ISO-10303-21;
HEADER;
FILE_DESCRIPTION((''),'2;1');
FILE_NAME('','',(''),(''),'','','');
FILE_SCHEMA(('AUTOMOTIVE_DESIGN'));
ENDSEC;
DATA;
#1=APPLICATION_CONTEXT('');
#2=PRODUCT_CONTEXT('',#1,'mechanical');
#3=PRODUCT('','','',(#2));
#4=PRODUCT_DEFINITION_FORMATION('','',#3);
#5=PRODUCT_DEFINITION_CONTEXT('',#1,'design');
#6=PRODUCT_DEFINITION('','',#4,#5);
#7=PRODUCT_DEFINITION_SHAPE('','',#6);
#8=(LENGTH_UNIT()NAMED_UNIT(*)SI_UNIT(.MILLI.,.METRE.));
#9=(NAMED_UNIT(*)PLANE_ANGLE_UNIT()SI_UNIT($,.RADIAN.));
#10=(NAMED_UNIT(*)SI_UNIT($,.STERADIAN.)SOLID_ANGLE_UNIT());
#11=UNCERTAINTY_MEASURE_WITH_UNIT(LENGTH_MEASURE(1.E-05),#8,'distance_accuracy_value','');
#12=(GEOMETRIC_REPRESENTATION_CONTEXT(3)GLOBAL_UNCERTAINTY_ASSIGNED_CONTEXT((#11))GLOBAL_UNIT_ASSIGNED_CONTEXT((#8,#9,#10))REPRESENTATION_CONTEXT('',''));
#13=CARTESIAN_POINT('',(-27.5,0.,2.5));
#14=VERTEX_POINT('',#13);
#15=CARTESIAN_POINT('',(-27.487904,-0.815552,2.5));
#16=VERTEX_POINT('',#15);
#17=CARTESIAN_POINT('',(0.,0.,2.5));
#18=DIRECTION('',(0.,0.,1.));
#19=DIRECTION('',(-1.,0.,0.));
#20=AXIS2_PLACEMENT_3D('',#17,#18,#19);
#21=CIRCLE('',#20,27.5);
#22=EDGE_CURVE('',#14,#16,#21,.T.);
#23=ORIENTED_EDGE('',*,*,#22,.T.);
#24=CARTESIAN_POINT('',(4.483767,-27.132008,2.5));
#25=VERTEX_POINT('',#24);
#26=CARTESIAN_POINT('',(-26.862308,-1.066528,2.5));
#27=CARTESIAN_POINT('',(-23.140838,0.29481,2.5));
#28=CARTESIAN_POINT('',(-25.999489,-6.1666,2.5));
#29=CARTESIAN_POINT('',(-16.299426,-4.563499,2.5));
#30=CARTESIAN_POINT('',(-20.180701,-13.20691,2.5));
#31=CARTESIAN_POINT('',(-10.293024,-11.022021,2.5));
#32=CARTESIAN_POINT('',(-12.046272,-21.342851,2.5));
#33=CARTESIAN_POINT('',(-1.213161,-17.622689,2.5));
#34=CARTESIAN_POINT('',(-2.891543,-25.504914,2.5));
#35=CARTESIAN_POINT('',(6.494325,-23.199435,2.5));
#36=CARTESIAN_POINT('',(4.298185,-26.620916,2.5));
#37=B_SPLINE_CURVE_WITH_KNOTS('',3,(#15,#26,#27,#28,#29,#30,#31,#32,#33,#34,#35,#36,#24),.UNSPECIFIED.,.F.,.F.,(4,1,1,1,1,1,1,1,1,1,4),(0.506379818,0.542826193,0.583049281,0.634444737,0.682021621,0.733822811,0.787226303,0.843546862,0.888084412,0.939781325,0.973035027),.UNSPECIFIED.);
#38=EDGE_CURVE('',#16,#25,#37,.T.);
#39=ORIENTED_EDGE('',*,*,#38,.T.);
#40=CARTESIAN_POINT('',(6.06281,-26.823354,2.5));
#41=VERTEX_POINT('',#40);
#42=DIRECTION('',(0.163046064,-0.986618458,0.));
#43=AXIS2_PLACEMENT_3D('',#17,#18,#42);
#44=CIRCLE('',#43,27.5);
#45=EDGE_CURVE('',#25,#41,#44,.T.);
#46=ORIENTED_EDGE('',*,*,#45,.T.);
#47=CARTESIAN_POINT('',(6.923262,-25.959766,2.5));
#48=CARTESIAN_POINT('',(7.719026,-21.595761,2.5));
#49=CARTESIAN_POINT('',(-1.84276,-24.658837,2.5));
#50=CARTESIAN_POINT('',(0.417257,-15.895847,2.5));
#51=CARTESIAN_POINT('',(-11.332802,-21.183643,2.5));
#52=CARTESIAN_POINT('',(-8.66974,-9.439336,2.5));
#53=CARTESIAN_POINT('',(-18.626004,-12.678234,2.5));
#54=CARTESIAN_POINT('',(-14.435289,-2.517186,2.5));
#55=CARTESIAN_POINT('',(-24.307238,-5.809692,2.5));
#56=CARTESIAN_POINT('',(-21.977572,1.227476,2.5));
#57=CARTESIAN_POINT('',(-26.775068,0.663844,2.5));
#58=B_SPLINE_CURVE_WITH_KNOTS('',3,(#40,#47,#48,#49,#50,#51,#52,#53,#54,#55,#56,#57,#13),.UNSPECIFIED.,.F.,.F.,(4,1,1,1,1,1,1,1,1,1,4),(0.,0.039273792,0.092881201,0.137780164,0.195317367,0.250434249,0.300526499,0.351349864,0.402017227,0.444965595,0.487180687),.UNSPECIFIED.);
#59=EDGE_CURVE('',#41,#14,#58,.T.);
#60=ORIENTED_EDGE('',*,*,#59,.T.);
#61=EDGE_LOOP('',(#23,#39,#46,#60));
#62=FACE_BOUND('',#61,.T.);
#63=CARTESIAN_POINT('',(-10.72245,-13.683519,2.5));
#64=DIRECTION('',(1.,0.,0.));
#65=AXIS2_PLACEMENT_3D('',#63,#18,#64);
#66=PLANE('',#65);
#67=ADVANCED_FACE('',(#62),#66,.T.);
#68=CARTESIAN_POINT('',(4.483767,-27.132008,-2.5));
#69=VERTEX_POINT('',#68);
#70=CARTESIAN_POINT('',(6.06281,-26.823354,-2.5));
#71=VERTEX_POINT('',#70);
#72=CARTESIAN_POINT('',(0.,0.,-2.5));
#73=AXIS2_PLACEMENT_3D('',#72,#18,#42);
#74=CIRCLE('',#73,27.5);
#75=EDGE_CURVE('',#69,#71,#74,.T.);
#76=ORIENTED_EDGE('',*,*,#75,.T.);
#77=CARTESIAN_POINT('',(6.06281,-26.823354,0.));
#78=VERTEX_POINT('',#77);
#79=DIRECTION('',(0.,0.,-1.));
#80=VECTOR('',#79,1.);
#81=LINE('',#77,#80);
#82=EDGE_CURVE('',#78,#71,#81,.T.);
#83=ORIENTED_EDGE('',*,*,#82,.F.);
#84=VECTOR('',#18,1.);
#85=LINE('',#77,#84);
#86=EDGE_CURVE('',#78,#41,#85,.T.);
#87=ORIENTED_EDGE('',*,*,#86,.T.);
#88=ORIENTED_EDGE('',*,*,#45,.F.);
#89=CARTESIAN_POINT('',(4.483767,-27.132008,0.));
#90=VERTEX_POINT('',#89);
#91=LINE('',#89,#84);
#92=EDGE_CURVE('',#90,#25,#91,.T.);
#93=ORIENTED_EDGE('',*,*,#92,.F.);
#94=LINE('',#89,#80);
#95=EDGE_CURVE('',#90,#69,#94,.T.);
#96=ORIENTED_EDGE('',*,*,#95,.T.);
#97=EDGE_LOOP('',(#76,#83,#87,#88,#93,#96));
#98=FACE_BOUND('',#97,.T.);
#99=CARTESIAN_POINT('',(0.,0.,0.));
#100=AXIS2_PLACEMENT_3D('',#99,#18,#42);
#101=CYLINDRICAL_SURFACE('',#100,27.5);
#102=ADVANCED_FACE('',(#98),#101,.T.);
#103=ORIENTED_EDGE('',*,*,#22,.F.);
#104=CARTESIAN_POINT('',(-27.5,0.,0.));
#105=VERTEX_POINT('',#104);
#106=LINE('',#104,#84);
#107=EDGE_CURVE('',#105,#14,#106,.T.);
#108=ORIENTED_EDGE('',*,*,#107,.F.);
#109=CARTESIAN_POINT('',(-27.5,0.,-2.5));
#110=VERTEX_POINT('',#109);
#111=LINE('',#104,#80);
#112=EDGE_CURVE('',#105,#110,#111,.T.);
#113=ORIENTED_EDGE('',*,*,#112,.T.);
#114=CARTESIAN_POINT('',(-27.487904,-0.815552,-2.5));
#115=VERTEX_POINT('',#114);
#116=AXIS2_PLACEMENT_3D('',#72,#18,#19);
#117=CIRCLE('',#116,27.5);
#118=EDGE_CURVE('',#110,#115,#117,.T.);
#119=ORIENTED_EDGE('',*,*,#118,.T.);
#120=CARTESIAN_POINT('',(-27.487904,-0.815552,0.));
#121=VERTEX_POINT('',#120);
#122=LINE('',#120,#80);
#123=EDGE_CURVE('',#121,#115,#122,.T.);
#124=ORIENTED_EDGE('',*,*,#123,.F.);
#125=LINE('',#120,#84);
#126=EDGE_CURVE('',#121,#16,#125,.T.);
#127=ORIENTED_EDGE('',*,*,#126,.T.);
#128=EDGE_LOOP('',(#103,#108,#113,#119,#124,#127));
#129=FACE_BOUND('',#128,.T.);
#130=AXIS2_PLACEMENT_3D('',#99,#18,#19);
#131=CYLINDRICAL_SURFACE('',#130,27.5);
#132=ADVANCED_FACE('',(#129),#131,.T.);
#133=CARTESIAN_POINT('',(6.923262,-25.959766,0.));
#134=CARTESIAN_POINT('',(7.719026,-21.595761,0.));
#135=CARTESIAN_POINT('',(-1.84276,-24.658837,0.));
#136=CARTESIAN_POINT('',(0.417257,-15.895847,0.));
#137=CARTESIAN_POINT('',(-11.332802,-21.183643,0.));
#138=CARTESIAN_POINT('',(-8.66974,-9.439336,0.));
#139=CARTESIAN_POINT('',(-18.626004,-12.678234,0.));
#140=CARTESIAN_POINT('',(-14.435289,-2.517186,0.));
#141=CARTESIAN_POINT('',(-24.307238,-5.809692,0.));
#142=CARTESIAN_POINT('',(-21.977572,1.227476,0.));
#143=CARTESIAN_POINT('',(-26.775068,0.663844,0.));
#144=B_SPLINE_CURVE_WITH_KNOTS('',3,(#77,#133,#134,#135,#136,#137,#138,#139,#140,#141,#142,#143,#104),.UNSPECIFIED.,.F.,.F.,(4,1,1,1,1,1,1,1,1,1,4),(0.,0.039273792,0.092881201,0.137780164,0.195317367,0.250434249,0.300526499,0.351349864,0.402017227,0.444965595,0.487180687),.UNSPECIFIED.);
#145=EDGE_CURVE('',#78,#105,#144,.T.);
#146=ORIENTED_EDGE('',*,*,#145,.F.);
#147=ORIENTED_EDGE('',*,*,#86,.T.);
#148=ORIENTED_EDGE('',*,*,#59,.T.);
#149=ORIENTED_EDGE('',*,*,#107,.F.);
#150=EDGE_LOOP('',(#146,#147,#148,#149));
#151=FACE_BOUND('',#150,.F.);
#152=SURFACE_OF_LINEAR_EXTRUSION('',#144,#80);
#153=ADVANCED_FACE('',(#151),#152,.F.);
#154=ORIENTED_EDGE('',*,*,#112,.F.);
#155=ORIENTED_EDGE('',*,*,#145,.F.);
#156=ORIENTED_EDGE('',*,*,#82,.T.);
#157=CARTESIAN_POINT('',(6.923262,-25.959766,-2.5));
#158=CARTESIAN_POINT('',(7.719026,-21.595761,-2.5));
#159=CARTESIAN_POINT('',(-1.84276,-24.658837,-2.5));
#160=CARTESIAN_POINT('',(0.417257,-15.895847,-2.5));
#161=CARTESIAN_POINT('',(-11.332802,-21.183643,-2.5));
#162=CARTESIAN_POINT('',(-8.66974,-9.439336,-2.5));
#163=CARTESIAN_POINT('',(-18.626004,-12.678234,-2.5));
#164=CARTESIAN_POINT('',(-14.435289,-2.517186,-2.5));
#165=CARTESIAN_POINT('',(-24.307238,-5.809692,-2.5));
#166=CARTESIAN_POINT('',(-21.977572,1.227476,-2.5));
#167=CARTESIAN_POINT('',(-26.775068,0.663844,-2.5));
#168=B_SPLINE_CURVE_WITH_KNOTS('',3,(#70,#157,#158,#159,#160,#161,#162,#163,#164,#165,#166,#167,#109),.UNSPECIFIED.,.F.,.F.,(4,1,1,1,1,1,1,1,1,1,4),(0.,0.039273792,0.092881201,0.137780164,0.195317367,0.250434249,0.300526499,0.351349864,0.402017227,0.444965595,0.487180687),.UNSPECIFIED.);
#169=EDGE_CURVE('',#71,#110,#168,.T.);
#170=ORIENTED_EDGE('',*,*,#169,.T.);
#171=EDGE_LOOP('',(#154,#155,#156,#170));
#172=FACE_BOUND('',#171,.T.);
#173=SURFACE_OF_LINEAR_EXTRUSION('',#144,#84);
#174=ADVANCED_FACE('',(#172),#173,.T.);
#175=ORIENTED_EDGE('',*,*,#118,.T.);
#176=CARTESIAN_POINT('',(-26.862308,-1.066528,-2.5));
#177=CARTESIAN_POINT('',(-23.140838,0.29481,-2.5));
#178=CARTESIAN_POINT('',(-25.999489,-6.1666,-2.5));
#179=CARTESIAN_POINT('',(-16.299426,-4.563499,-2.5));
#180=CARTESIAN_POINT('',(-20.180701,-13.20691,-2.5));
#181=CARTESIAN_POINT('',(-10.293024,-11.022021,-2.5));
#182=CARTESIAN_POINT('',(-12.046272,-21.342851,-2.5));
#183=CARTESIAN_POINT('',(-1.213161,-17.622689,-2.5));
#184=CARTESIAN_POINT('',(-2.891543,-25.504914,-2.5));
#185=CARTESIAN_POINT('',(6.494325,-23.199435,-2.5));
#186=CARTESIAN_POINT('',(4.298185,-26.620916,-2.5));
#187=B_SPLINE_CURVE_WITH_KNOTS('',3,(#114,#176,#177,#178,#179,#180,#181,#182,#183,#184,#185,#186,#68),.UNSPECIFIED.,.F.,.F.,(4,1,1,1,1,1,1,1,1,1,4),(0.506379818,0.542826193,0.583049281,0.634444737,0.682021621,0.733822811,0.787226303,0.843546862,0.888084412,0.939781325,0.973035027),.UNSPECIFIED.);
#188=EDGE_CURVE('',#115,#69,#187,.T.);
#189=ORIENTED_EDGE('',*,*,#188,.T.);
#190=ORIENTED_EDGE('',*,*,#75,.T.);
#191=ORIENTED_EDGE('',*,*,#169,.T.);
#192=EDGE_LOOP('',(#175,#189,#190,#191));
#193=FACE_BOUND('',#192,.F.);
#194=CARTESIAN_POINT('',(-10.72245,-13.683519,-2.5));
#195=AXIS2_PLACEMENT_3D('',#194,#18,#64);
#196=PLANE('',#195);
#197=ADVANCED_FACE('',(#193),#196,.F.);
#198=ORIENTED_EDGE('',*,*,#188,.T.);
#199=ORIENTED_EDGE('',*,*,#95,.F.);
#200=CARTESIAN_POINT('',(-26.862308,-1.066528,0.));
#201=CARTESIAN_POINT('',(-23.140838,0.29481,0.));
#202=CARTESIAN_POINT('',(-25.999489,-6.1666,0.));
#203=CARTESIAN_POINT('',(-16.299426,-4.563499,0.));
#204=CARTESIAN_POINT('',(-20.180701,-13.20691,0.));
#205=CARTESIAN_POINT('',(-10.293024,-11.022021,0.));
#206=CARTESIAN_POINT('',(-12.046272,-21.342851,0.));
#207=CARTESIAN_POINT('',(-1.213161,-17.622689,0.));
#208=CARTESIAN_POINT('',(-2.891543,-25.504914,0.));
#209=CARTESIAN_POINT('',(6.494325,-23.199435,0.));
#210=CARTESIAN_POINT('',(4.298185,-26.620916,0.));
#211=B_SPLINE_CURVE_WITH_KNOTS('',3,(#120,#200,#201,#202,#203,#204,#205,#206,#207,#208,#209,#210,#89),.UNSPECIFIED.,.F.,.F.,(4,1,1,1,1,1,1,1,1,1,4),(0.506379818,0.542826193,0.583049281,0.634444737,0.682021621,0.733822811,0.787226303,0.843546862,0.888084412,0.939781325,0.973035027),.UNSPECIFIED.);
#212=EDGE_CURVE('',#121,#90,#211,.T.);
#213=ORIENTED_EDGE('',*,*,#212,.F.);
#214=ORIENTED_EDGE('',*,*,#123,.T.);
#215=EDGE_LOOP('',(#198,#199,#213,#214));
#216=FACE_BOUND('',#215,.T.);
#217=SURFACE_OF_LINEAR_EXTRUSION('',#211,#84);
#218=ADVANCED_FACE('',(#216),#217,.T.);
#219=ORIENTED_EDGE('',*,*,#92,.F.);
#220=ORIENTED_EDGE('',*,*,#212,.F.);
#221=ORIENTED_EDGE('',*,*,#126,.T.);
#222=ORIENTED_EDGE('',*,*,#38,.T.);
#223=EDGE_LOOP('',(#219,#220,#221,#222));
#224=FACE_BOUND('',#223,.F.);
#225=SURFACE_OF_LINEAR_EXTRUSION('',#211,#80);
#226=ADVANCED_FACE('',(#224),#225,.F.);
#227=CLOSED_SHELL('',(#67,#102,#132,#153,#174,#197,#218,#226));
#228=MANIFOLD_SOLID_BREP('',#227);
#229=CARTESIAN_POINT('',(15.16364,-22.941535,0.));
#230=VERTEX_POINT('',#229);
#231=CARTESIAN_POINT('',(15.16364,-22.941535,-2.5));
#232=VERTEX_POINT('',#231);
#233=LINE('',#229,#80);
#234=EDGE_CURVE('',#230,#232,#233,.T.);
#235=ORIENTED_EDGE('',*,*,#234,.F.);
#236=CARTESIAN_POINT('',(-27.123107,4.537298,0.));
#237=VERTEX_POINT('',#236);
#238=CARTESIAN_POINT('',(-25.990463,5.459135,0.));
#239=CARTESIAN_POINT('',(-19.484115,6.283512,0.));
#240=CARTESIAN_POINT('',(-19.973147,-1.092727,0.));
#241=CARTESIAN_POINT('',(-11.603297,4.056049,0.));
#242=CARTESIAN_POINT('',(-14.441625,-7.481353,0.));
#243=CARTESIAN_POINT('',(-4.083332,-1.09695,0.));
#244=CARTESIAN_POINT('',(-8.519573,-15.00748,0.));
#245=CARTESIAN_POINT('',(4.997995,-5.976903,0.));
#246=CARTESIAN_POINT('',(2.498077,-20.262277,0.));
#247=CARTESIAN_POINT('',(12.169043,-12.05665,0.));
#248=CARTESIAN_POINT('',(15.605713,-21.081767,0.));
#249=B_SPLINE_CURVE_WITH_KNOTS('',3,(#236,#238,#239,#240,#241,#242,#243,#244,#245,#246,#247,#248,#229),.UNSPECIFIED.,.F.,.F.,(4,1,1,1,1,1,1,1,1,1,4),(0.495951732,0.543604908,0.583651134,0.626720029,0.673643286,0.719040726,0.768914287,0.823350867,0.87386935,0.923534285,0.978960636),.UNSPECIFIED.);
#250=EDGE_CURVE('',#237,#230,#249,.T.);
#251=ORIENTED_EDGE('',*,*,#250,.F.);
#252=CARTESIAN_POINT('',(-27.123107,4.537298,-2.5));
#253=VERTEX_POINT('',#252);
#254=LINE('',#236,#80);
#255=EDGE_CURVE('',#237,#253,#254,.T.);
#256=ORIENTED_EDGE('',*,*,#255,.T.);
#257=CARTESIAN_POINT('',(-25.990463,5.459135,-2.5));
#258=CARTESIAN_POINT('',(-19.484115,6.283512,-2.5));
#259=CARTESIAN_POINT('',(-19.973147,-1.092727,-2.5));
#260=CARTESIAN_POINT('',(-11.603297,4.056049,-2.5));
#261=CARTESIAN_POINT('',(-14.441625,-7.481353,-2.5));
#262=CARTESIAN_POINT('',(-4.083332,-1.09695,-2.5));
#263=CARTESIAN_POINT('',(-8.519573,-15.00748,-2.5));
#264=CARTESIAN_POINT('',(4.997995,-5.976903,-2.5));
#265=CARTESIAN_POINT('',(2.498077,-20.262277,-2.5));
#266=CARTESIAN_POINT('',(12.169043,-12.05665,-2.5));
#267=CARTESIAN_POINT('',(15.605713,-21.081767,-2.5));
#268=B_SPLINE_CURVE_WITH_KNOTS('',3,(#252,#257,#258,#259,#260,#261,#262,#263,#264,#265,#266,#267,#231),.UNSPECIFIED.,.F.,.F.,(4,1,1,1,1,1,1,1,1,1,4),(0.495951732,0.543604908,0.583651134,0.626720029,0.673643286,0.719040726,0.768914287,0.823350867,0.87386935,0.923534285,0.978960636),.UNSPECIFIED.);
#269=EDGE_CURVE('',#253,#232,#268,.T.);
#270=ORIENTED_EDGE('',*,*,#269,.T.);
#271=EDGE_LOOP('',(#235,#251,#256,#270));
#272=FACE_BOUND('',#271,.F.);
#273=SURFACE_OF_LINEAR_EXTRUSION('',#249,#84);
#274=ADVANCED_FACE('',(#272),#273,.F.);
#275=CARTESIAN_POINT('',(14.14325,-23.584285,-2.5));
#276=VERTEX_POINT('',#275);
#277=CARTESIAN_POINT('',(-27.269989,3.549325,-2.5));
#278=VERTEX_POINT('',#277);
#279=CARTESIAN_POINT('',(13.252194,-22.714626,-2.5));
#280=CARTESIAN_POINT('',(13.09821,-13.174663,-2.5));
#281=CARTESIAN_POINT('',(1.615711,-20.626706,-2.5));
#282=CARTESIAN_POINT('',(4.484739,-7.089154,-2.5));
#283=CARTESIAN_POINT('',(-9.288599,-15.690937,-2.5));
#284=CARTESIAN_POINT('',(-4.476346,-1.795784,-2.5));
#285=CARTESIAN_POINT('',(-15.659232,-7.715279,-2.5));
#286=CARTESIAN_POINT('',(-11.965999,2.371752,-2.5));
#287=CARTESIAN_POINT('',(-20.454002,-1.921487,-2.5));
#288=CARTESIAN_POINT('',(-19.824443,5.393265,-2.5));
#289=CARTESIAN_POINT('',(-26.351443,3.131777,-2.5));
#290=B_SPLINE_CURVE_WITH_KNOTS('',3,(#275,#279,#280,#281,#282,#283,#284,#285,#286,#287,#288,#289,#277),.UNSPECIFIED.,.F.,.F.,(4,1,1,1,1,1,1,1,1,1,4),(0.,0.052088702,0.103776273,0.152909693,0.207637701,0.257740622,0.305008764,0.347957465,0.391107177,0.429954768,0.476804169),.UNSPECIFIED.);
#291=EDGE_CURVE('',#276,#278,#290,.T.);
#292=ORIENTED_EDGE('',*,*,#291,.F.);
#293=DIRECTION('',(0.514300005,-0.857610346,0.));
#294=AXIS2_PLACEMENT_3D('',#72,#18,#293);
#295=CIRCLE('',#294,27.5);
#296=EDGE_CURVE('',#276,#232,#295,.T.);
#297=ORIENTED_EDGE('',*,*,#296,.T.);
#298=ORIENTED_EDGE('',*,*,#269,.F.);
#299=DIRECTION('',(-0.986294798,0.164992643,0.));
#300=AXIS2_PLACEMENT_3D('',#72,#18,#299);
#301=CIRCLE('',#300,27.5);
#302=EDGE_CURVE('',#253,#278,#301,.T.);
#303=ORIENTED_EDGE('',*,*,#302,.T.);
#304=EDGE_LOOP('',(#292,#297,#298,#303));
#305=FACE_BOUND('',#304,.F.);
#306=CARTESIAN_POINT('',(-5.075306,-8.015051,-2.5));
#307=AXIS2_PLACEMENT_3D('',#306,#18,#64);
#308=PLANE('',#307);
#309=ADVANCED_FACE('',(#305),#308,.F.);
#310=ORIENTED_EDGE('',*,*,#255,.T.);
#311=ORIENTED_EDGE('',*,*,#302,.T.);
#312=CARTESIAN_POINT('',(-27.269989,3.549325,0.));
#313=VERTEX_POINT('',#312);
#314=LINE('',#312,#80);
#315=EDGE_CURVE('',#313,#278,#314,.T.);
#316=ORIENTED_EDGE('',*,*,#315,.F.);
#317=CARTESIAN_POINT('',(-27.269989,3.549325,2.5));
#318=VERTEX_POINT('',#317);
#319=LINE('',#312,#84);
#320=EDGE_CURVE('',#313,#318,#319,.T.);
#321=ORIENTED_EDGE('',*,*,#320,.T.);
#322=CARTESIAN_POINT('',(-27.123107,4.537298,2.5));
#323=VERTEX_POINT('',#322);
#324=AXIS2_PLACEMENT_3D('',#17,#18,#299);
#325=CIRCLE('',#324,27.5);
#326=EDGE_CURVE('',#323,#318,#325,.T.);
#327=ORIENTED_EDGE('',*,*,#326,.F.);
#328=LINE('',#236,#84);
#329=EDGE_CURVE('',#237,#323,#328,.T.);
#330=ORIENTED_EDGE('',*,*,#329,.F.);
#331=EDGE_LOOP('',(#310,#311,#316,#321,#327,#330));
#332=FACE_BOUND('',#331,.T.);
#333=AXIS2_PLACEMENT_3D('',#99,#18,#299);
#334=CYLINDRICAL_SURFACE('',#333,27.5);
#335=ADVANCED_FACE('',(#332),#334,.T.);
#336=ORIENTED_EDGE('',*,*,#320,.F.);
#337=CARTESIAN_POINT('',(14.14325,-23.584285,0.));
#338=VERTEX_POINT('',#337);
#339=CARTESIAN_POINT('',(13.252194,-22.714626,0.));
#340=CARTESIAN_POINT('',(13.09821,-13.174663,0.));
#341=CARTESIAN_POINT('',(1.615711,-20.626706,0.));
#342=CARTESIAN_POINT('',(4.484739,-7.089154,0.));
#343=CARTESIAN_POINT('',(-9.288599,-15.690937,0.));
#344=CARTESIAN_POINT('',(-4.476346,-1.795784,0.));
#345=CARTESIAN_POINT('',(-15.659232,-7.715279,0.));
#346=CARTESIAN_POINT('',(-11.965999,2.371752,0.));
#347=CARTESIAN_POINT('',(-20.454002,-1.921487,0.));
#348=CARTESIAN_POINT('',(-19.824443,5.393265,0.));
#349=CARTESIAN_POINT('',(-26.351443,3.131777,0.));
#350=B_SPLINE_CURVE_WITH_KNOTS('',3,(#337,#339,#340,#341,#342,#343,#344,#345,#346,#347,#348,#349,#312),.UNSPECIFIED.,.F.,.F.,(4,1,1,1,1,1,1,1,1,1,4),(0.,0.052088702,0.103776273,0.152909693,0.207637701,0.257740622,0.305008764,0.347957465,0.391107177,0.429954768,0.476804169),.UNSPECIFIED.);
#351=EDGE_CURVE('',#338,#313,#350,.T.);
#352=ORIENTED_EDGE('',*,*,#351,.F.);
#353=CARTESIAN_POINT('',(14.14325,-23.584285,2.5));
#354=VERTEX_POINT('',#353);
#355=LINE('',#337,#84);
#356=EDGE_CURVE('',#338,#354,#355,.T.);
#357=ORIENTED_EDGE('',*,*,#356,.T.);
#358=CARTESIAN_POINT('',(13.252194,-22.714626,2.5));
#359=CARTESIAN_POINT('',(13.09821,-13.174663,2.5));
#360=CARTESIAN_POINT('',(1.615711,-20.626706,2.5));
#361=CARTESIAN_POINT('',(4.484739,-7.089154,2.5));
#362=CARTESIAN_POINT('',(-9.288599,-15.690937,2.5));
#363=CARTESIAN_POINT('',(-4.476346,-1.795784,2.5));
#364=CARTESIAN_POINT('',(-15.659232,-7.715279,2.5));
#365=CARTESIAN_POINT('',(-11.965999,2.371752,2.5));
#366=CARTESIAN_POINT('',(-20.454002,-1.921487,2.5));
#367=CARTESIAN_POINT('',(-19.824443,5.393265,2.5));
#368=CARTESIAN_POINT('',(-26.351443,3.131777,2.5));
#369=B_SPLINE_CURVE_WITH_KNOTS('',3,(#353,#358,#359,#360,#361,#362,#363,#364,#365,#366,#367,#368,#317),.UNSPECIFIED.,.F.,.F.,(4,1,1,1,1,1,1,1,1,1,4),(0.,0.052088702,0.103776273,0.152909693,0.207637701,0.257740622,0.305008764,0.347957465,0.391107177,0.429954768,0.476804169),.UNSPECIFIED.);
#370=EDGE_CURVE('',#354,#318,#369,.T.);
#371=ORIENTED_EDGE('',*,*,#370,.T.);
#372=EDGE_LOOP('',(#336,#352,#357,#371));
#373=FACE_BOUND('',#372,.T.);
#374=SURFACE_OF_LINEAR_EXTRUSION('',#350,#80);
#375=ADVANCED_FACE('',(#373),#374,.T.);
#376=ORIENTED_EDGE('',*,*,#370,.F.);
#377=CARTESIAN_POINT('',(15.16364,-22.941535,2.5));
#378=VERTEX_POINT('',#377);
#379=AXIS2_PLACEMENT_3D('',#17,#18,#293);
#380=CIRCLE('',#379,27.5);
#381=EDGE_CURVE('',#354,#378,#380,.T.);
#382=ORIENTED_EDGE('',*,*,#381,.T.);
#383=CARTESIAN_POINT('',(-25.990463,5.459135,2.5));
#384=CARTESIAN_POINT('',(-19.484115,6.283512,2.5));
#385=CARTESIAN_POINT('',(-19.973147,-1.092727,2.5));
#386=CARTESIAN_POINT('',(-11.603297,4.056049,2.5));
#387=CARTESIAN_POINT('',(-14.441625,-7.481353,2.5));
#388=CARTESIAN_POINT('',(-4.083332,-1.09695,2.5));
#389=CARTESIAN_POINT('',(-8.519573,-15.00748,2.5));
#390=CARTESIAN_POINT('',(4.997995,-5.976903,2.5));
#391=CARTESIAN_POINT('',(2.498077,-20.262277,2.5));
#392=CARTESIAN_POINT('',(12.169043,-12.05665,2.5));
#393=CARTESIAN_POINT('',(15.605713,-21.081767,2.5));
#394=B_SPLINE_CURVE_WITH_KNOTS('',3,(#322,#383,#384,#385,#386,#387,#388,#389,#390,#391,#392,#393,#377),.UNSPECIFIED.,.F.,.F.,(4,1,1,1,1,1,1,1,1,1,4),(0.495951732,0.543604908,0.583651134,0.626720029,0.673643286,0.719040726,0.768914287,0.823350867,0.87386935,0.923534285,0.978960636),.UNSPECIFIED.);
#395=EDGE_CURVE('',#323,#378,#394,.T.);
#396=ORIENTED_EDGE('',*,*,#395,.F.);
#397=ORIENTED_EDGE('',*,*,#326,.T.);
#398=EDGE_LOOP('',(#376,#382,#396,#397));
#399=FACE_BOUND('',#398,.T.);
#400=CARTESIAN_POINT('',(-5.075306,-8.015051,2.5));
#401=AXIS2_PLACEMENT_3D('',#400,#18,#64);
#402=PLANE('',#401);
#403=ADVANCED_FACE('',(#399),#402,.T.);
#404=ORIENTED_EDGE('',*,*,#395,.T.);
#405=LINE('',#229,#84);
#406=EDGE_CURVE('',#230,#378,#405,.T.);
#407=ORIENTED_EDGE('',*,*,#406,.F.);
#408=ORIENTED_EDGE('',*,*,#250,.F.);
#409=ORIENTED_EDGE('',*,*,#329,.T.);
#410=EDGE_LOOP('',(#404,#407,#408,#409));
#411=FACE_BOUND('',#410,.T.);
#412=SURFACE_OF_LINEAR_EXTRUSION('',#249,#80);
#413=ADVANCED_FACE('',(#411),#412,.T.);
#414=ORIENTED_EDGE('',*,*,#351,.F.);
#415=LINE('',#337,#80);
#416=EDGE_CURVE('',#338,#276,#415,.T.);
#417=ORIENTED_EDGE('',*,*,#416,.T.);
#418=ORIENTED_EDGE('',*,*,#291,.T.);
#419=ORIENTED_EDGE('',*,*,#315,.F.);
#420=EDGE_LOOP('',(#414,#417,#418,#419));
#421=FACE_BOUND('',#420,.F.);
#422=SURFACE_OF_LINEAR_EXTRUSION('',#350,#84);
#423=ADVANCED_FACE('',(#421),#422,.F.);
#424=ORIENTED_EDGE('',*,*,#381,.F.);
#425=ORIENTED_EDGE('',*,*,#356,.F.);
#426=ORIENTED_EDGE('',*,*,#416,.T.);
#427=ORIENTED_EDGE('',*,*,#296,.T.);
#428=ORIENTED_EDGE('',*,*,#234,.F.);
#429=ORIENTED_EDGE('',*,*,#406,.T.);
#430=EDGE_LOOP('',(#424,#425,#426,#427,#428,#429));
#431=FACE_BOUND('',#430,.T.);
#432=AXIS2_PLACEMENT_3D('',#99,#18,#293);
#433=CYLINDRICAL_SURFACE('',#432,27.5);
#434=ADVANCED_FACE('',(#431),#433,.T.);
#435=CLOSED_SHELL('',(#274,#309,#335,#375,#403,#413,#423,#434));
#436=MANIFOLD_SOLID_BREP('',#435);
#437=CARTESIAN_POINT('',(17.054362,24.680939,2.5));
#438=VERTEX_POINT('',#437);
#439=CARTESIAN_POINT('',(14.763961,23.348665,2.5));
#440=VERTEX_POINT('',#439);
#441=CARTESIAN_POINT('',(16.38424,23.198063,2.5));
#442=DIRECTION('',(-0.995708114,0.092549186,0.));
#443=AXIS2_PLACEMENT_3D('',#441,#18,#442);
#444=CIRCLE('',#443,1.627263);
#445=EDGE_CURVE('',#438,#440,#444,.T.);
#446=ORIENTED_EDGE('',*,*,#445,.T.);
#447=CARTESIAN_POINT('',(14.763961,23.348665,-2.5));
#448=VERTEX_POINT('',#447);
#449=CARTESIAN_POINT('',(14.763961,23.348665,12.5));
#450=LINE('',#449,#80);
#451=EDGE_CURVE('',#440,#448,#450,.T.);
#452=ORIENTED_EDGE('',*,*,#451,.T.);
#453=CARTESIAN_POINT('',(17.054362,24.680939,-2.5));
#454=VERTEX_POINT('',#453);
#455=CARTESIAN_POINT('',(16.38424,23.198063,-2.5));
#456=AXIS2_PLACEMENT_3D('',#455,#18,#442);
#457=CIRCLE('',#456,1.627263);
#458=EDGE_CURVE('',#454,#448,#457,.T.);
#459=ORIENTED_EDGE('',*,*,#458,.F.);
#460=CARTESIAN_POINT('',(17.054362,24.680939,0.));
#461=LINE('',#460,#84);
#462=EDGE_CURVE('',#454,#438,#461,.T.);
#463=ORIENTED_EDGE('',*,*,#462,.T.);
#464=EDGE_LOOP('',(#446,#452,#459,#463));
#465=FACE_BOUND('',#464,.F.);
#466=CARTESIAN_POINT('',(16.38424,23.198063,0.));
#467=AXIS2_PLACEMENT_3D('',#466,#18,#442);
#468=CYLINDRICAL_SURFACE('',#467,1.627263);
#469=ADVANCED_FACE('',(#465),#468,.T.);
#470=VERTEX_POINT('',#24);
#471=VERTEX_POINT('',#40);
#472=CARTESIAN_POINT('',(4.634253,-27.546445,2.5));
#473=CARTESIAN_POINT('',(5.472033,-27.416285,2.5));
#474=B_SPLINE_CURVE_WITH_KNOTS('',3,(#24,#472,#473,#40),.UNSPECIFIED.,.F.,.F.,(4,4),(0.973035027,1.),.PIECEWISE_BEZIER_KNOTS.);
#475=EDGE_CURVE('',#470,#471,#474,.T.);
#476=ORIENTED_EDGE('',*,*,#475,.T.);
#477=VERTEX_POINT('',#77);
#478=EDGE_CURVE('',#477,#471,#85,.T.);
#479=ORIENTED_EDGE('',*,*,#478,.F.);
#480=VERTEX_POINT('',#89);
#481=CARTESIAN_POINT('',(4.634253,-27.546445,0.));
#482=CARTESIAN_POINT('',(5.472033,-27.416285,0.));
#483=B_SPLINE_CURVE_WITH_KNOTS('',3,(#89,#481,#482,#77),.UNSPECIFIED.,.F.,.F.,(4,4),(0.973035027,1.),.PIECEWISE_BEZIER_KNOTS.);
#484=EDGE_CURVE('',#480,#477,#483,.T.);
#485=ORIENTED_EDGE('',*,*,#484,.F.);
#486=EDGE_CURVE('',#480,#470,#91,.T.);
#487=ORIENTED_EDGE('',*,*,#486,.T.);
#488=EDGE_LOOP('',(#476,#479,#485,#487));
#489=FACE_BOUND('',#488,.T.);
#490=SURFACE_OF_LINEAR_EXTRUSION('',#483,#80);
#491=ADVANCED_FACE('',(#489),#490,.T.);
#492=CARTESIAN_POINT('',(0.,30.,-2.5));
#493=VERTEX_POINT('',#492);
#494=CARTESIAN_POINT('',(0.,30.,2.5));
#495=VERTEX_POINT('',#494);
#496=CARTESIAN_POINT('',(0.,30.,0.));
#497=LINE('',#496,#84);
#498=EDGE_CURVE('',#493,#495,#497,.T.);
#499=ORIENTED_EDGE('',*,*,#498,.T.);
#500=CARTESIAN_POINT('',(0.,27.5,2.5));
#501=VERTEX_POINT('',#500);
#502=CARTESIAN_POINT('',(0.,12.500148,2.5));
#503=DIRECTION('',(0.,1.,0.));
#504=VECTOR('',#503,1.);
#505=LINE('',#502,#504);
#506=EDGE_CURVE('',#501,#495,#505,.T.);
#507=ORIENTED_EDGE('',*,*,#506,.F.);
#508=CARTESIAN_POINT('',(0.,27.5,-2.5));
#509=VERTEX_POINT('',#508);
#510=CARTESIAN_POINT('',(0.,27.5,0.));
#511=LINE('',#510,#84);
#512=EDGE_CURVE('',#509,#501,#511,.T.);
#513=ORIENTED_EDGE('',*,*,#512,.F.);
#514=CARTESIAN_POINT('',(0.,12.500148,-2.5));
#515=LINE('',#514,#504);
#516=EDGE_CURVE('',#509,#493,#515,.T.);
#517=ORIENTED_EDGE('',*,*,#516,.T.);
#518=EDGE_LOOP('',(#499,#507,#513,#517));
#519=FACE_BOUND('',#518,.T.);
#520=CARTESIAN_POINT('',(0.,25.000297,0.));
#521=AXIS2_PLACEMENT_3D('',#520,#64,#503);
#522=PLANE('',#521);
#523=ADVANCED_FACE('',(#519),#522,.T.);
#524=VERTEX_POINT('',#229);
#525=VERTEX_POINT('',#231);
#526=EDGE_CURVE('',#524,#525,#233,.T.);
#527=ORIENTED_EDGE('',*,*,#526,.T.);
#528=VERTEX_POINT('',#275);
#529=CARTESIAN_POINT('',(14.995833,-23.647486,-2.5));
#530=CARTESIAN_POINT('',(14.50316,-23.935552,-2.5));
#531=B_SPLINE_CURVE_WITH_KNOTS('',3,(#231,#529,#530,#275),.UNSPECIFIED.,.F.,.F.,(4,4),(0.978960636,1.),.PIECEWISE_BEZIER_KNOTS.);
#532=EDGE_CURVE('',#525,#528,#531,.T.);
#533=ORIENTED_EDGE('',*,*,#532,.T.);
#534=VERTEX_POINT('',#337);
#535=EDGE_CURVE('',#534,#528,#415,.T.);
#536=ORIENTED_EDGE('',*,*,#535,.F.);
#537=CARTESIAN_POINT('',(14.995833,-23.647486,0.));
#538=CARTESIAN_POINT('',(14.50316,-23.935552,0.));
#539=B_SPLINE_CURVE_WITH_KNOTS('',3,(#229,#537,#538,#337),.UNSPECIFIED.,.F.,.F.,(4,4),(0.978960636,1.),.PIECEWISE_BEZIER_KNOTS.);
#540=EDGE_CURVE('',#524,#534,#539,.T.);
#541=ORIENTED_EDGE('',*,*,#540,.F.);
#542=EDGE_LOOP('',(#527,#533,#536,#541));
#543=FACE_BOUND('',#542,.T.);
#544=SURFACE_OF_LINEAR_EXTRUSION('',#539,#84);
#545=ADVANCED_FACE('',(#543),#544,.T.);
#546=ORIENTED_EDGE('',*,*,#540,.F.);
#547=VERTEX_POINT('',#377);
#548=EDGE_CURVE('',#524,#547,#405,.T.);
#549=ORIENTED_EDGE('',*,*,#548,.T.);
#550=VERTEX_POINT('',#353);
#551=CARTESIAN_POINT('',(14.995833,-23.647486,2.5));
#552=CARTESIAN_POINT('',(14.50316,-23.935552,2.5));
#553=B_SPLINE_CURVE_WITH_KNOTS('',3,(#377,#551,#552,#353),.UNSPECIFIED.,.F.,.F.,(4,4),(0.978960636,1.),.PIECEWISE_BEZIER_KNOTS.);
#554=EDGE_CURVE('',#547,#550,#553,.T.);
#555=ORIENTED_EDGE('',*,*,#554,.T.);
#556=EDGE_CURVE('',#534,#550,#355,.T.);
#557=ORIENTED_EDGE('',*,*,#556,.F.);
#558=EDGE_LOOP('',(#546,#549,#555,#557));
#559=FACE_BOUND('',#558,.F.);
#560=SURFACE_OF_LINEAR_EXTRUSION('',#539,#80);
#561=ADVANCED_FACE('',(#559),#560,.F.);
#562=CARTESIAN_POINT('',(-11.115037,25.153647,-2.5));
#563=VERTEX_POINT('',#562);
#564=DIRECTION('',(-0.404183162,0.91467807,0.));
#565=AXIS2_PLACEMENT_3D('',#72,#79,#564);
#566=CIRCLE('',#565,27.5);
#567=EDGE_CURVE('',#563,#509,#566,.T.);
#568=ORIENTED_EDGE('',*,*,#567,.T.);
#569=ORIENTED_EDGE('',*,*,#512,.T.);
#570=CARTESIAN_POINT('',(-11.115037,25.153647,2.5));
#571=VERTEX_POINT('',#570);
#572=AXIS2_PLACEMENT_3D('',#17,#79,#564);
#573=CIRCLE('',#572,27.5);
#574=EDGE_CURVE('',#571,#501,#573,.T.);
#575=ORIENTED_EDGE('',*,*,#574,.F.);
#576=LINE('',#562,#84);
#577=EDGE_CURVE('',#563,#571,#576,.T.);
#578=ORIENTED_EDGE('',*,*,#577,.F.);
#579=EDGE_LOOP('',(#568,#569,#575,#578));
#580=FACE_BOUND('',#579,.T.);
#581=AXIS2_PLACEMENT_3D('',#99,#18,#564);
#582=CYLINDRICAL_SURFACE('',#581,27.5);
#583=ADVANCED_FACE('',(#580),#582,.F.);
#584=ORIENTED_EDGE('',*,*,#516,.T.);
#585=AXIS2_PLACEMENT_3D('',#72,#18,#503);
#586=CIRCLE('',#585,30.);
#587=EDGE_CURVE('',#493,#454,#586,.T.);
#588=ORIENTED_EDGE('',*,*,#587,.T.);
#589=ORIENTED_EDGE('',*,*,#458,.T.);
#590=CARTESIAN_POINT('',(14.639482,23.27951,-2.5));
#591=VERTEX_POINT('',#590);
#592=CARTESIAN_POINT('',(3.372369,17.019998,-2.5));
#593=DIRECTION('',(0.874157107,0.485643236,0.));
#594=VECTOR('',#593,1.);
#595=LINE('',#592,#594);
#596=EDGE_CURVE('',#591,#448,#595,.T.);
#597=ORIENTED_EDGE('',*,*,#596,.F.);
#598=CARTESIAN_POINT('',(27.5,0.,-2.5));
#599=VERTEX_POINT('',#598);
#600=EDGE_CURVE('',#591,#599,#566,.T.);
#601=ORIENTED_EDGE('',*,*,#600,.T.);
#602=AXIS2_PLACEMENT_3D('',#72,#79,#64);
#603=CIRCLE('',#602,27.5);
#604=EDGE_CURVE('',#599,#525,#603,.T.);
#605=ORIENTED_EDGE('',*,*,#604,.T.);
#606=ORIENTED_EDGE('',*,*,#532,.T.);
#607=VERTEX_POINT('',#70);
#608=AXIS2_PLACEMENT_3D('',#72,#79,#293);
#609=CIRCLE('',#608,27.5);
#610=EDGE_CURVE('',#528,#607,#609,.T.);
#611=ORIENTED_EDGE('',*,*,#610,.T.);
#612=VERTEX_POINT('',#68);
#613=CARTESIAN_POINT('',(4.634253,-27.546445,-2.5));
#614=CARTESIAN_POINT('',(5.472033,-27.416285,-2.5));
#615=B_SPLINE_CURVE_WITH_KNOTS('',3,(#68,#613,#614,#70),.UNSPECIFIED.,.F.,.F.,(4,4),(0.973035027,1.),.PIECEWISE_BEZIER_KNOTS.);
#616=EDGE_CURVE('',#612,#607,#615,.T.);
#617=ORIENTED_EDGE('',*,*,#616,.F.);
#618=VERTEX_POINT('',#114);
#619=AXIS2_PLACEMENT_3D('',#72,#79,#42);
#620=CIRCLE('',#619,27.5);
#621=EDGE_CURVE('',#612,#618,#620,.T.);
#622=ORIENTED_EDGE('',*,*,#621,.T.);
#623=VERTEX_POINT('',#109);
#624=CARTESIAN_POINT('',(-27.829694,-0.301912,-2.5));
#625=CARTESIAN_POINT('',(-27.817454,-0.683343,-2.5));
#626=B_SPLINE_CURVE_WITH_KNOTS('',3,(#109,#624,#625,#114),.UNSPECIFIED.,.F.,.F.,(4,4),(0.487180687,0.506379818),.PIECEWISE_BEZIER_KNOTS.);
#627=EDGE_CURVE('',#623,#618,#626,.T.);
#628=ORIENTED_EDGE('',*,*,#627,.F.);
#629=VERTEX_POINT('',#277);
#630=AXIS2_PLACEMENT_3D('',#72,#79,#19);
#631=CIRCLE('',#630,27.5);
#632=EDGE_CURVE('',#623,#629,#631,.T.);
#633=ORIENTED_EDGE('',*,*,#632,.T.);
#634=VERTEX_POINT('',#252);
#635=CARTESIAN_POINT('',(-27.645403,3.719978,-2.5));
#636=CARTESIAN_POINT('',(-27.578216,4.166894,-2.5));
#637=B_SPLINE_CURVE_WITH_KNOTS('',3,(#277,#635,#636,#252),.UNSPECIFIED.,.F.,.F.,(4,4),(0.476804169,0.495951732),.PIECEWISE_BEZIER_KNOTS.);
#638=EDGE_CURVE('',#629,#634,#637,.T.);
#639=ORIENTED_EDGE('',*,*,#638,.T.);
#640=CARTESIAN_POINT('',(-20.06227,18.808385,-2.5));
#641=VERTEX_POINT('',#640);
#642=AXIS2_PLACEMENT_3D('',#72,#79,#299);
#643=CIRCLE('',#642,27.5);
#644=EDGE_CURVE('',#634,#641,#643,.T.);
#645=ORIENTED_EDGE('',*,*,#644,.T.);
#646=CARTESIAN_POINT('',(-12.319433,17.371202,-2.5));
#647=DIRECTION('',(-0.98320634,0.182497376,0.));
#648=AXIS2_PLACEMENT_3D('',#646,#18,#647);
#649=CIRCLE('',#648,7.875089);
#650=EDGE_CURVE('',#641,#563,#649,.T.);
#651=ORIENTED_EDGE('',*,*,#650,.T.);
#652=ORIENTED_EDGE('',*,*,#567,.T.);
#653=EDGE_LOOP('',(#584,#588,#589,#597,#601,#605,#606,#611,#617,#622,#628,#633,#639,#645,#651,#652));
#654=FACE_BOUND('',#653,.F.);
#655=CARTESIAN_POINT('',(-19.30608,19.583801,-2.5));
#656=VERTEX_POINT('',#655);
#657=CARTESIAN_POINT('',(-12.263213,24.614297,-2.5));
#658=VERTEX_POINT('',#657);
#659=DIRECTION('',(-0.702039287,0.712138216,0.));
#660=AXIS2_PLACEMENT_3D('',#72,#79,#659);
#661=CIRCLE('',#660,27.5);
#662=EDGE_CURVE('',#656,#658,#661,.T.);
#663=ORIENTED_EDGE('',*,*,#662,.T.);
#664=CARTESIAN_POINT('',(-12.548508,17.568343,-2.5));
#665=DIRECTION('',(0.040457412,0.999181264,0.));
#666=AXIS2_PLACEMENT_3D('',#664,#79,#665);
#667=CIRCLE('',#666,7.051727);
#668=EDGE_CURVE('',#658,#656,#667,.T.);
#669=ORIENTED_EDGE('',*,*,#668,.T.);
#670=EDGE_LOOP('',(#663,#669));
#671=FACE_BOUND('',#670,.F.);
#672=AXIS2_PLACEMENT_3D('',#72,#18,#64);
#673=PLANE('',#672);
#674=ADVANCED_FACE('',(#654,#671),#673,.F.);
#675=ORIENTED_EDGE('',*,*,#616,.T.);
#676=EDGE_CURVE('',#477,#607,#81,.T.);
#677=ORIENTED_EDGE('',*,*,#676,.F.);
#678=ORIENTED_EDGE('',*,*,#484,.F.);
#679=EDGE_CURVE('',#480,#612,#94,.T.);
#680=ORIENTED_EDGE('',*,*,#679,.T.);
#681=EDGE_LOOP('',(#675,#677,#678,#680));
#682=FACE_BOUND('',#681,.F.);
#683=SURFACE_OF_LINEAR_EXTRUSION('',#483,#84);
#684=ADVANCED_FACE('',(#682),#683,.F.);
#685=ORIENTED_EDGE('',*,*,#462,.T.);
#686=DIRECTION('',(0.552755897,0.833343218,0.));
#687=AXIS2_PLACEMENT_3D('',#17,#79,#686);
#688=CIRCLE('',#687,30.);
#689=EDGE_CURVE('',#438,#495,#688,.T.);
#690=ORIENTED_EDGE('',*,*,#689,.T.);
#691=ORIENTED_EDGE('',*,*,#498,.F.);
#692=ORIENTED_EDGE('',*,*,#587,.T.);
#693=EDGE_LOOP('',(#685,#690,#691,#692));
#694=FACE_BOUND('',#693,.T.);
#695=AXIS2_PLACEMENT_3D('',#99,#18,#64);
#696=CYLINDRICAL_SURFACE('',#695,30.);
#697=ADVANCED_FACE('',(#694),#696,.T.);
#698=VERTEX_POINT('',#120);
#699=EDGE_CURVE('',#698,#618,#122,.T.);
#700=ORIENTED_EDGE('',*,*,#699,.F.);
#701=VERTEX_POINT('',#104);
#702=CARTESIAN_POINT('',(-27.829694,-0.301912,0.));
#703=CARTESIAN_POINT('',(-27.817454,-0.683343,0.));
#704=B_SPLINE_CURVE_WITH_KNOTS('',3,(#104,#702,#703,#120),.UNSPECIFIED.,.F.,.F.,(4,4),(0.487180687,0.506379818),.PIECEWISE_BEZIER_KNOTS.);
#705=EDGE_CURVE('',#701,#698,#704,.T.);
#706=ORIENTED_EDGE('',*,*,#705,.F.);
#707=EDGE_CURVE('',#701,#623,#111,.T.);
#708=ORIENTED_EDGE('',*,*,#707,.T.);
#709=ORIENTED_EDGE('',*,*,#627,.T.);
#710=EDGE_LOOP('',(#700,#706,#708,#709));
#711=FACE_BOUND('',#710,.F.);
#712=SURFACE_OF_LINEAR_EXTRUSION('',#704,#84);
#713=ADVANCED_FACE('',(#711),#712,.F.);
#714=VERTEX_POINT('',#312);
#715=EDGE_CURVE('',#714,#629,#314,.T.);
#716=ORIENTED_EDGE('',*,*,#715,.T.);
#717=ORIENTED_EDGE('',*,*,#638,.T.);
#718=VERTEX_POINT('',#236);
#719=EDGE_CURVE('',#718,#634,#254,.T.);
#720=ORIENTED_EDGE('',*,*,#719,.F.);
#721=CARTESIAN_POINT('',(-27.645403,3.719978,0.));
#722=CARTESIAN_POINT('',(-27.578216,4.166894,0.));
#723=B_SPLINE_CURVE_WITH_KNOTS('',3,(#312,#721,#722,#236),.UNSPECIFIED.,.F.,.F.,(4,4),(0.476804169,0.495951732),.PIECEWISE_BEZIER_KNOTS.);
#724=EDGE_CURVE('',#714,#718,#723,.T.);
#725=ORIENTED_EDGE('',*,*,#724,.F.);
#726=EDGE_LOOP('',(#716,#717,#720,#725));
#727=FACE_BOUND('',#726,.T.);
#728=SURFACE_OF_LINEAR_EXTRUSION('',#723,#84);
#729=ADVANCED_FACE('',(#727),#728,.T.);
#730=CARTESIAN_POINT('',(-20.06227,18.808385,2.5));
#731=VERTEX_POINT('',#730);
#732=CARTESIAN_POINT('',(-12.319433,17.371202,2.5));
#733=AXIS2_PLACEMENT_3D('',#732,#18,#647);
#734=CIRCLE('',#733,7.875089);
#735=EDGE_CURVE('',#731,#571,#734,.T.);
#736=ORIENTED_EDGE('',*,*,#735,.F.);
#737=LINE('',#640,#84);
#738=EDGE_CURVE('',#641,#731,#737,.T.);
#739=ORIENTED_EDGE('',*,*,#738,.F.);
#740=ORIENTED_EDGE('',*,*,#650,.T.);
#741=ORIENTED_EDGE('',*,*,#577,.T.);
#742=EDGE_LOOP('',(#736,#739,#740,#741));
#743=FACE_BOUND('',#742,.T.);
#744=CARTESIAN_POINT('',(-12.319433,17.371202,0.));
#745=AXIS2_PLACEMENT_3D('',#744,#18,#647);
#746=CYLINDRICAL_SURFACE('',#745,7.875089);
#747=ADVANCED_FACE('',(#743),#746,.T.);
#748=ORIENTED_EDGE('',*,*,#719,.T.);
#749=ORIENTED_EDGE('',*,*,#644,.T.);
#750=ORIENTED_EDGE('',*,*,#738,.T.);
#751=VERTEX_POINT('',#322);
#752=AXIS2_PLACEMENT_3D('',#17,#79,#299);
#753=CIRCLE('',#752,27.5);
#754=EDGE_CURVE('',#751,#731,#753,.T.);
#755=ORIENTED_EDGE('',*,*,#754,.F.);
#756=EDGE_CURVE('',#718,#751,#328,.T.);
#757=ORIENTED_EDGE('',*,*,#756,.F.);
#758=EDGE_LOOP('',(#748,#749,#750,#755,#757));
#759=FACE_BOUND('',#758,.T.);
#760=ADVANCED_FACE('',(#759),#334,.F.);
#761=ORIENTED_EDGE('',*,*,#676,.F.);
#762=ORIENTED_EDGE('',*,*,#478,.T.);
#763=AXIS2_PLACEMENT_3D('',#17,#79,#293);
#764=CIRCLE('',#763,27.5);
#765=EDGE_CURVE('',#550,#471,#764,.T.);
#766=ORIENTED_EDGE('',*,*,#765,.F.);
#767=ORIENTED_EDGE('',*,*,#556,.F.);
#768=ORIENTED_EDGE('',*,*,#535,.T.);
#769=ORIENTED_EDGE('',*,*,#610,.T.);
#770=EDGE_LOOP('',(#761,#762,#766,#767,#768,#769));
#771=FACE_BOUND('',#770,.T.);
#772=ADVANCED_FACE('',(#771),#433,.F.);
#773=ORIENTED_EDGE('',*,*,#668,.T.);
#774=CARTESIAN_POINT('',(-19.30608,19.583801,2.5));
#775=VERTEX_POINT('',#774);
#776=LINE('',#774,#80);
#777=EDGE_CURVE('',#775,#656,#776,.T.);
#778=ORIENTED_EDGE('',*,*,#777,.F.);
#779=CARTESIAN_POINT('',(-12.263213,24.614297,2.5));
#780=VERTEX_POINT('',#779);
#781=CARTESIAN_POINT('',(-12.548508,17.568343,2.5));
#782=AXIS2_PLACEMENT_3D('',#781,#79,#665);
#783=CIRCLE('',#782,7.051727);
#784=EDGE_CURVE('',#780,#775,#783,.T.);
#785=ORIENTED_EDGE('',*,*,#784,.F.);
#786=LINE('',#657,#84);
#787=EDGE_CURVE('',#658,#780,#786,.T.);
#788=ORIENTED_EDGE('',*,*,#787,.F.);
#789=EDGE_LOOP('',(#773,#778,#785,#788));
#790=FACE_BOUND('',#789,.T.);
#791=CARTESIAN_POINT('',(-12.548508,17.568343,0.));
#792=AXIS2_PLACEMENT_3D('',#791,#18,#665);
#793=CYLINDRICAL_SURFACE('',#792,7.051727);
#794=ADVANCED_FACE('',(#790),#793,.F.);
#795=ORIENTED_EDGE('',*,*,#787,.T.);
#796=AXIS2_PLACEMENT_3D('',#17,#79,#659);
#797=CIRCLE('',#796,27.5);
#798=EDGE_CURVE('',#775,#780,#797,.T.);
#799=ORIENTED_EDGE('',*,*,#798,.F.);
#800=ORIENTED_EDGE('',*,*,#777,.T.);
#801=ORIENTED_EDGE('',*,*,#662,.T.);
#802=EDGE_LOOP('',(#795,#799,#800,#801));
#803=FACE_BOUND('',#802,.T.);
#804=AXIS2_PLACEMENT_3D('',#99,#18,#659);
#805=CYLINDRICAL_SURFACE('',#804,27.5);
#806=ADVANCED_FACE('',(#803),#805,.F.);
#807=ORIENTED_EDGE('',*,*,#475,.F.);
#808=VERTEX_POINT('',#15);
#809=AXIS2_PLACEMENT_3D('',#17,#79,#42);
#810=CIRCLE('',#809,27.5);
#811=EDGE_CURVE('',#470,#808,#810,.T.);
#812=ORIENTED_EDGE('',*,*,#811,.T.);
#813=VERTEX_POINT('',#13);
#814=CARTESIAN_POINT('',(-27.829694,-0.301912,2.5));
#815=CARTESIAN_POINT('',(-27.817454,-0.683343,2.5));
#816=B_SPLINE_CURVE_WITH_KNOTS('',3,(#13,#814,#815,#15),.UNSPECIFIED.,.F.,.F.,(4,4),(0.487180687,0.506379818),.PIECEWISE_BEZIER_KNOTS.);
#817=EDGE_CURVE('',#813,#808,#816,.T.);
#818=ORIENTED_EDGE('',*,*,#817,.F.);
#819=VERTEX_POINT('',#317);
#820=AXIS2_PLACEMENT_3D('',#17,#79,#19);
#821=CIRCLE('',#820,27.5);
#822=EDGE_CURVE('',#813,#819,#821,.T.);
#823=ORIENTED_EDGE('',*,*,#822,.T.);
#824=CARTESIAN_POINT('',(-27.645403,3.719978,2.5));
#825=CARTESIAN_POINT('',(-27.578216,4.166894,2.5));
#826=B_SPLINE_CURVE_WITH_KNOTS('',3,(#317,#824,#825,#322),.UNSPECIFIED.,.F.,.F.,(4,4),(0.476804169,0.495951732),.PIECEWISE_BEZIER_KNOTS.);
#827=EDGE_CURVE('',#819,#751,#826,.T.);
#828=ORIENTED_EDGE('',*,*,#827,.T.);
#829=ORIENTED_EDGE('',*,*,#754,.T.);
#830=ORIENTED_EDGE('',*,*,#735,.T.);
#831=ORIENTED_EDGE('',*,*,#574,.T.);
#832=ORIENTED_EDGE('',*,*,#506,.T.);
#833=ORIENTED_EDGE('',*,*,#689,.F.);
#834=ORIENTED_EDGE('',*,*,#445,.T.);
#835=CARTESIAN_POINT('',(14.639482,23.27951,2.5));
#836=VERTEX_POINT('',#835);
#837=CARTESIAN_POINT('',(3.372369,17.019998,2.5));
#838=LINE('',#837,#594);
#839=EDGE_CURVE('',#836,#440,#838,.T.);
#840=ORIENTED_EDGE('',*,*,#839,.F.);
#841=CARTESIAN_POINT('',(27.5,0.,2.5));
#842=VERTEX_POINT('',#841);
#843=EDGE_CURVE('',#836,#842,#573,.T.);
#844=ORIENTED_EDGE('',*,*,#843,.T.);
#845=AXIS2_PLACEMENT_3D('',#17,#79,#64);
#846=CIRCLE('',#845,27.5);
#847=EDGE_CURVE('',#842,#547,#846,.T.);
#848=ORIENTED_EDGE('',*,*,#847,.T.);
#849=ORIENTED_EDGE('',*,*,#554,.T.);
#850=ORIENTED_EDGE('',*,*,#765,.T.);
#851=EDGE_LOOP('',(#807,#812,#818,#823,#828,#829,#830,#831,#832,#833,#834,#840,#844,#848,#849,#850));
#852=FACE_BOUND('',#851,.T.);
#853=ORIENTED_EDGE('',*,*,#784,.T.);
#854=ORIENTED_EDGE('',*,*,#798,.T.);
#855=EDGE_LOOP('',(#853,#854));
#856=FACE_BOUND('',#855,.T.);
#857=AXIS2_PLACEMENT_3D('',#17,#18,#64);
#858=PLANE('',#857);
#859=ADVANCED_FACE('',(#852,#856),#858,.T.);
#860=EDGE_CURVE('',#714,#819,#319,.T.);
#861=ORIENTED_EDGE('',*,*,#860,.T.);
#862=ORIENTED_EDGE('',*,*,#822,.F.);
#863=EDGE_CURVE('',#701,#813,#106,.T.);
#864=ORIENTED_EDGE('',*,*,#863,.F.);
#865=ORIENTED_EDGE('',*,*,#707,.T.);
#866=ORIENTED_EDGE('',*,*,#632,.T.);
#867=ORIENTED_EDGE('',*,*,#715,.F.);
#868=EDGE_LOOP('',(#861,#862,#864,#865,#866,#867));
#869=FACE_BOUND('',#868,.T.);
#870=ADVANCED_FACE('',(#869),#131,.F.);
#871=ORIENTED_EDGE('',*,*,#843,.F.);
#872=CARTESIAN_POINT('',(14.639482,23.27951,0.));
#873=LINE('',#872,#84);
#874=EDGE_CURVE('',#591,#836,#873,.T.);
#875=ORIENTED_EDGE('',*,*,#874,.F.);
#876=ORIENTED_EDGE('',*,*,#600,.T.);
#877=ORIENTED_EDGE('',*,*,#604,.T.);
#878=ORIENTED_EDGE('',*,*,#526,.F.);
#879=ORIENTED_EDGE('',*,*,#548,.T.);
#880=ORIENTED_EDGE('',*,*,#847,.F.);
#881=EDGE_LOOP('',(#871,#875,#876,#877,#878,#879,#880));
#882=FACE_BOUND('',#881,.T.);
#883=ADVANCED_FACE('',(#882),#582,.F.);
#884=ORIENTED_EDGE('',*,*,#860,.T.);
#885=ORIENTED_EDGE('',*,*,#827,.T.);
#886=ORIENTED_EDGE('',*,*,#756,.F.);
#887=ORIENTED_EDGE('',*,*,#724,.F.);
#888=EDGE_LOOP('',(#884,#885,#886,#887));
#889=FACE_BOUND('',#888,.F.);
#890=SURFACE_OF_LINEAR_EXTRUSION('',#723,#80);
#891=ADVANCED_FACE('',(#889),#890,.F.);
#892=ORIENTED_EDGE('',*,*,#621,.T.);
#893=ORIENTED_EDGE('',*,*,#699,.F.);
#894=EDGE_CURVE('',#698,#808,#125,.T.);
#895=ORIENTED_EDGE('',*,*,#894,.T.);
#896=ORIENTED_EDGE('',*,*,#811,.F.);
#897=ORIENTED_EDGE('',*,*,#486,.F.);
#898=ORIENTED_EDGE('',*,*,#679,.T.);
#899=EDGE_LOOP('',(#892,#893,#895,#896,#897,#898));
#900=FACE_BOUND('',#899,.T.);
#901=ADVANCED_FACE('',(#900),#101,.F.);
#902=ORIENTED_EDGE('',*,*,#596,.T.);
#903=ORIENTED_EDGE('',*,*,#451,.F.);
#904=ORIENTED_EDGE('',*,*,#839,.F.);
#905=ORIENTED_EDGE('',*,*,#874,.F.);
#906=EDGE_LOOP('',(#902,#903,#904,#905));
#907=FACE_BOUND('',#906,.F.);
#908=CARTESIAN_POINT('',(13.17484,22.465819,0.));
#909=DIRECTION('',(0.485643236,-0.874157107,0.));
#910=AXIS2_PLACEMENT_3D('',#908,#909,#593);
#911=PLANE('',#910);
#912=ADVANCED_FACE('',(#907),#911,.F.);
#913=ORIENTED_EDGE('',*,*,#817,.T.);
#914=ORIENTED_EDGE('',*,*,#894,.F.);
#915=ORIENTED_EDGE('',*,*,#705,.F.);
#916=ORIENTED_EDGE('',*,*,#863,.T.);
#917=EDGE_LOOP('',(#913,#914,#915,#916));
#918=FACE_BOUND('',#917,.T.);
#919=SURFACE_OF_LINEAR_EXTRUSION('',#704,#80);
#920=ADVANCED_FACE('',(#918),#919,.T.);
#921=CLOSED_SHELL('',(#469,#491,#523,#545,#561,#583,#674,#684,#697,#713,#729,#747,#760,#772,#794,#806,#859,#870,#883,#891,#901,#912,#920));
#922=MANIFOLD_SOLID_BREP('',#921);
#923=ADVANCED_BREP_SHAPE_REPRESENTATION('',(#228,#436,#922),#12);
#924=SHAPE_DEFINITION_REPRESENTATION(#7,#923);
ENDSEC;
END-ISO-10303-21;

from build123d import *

# Parameters (mm, degrees)
F0_R     = 30
F1_DEPTH = 2.5
F2_W     = 24.6642269194
F2_H     = 7.3522776365
F3_DEPTH = 12.5
F5_DEPTH = 12.5


with BuildPart() as f1:
    # F0 (on Top) → F1 (new body, symmetric)
    with BuildSketch(Plane.XY):
        Circle(F0_R)
        with BuildLine():
            ThreePointArc((-11.1150369445, 25.1536469269), (15.009771551, 23.0424989527), (27.5, 0))
            ThreePointArc((27.5, 0), (24.2203438346, -13.0240141483), (15.1636403975, -22.941534602))
            add(Edge.make_bspline(
                [(15.1636403975, -22.941534602), (14.9958333757, -23.6474862472), (14.5031601765, -23.9355517297), (14.1432501331, -23.5842845063)],
                knots=[0.9789606364, 0.9789606364, 0.9789606364, 0.9789606364, 1, 1, 1, 1], degree=3))
            ThreePointArc((14.1432501331, -23.5842845063), (10.2320139637, -25.5255928481), (6.0628099975, -26.8233542819))
            add(Edge.make_bspline(
                [(4.483766755, -27.1320075867), (4.6342528162, -27.5464447738), (5.4720328431, -27.4162848284), (6.0628099975, -26.8233542819)],
                knots=[0.9730350273, 0.9730350273, 0.9730350273, 0.9730350273, 1, 1, 1, 1], degree=3))
            ThreePointArc((4.483766755, -27.1320075867), (-17.4767429798, -21.2323680925), (-27.4879041615, -0.815551843))
            add(Edge.make_bspline(
                [(-27.5, 0), (-27.8296942118, -0.3019117937), (-27.8174539139, -0.683343012), (-27.4879041615, -0.815551843)],
                knots=[0.4871806874, 0.4871806874, 0.4871806874, 0.4871806874, 0.5063798175, 0.5063798175, 0.5063798175, 0.5063798175], degree=3))
            ThreePointArc((-27.5, 0), (-27.4424369795, 1.778384837), (-27.2699888997, 3.5493246411))
            add(Edge.make_bspline(
                [(-27.2699888997, 3.5493246411), (-27.6454026128, 3.7199781968), (-27.5782156341, 4.1668936216), (-27.123106935, 4.537297675)],
                knots=[0.4768041689, 0.4768041689, 0.4768041689, 0.4768041689, 0.4959517322, 0.4959517322, 0.4959517322, 0.4959517322], degree=3))
            ThreePointArc((-27.123106935, 4.537297675), (-24.648142359, 12.1950431837), (-20.0622696114, 18.8083847802))
            ThreePointArc((-20.0622696114, 18.8083847802), (-19.6879928709, 19.1998160595), (-19.3060804036, 19.5838009449))
            ThreePointArc((-19.3060804036, 19.5838009449), (-15.9837900845, 22.3778563436), (-12.2632131259, 24.6142967364))
            ThreePointArc((-12.2632131259, 24.6142967364), (-11.6922354041, 24.8905932283), (-11.1150369445, 25.1536469269))
        make_face(mode=Mode.SUBTRACT)
        with BuildLine():
            ThreePointArc((-20.0622696114, 18.8083847802), (-7.7638433815, 10.9475245494), (-11.1150369445, 25.1536469269))
            ThreePointArc((-11.1150369445, 25.1536469269), (-11.6922354041, 24.8905932283), (-12.2632131259, 24.6142967364))
            ThreePointArc((-12.2632131259, 24.6142967364), (-8.4498412063, 11.8300685657), (-19.3060804036, 19.5838009449))
            ThreePointArc((-19.3060804036, 19.5838009449), (-19.6879928709, 19.1998160595), (-20.0622696114, 18.8083847802))
        make_face()
    extrude(amount=F1_DEPTH, both=True)

    # F2 (on Top) → F3 (cut, symmetric)
    with BuildSketch(Plane.XY):
        with Locations((12.3321134597, 28.6764353514)):
            Rectangle(F2_W, F2_H)
    extrude(amount=F3_DEPTH, both=True, mode=Mode.SUBTRACT)

    # F4 (on Top) → F5 (cut, symmetric)
    with BuildSketch(Plane.XY):
        with BuildLine():
            ThreePointArc((14.7639606148, 23.3486648649), (15.6565054299, 24.6535312427), (17.2359254211, 24.5846472681))
            Line((17.2359254211, 24.5846472681), (18.2953383774, 26.7034750432))
            Line((18.2953383774, 26.7034750432), (14.7639606148, 26.7034750432))
            Line((14.7639606148, 26.7034750432), (9.6434624866, 24.9377842993))
            Line((9.6434624866, 24.9377842993), (13.1748402491, 22.4658194929))
            Line((13.1748402491, 22.4658194929), (14.7639606148, 23.3486648649))
        make_face()
    extrude(amount=F5_DEPTH, both=True, mode=Mode.SUBTRACT)


with BuildPart() as f1b:
    # F0 (on Top) → F1, piece 2 (new body, symmetric)
    with BuildSketch(Plane.XY):
        with BuildLine():
            ThreePointArc((4.483766755, -27.1320075867), (5.2755461342, -26.9892314264), (6.0628099975, -26.8233542819))
            add(Edge.make_bspline(
                [(6.0628099975, -26.8233542819), (6.9232617871, -25.9597661319), (7.7190262856, -21.595760699), (-1.842760205, -24.6588373284), (0.4172571832, -15.8958473665), (-11.3328019955, -21.1836430431), (-8.6697401516, -9.4393355844), (-18.6260044123, -12.6782337351), (-14.4352893573, -2.5171855626), (-24.3072381108, -5.8096923326), (-21.9775720565, 1.2274758919), (-26.7750675923, 0.6638443614), (-27.5, 0)],
                knots=[0, 0, 0, 0, 0.0392737919, 0.0928812013, 0.1377801638, 0.1953173674, 0.2504342491, 0.300526499, 0.3513498641, 0.4020172273, 0.4449655949, 0.4871806874, 0.4871806874, 0.4871806874, 0.4871806874], degree=3))
            ThreePointArc((-27.5, 0), (-27.4969758741, -0.4078207688), (-27.4879041615, -0.815551843))
            add(Edge.make_bspline(
                [(-27.4879041615, -0.815551843), (-26.8623084266, -1.0665284562), (-23.1408384239, 0.294810249), (-25.9994891792, -6.1666002052), (-16.2994263377, -4.5634992986), (-20.1807013869, -13.206910122), (-10.2930243024, -11.0220207678), (-12.0462715135, -21.3428512292), (-1.2131614334, -17.6226889781), (-2.8915426889, -25.5049142933), (6.4943249255, -23.1994350059), (4.2981845675, -26.6209160007), (4.483766755, -27.1320075867)],
                knots=[0.5063798175, 0.5063798175, 0.5063798175, 0.5063798175, 0.5428261927, 0.5830492814, 0.6344447368, 0.6820216212, 0.7338228108, 0.787226303, 0.8435468615, 0.8880844121, 0.9397813254, 0.9730350273, 0.9730350273, 0.9730350273, 0.9730350273], degree=3))
        make_face()
    extrude(amount=F1_DEPTH, both=True)


with BuildPart() as f1c:
    # F0 (on Top) → F1, piece 3 (new body, symmetric)
    with BuildSketch(Plane.XY):
        with BuildLine():
            ThreePointArc((14.1432501331, -23.5842845063), (14.656968991, -23.2685036046), (15.1636403975, -22.941534602))
            add(Edge.make_bspline(
                [(-27.123106935, 4.537297675), (-25.9904628144, 5.4591345334), (-19.4841145706, 6.2835115192), (-19.9731472925, -1.0927270861), (-11.6032967424, 4.0560485218), (-14.4416252325, -7.4813530633), (-4.0833319362, -1.0969504879), (-8.5195725569, -15.0074796009), (4.9979946024, -5.9769027327), (2.4980772358, -20.2622768825), (12.1690426888, -12.056650337), (15.6057132245, -21.0817671377), (15.1636403975, -22.941534602)],
                knots=[0.4959517322, 0.4959517322, 0.4959517322, 0.4959517322, 0.5436049083, 0.583651134, 0.6267200286, 0.6736432862, 0.7190407256, 0.768914287, 0.8233508666, 0.8738693503, 0.923534285, 0.9789606364, 0.9789606364, 0.9789606364, 0.9789606364], degree=3))
            ThreePointArc((-27.123106935, 4.537297675), (-27.2010338278, 4.0439780784), (-27.2699888997, 3.5493246411))
            add(Edge.make_bspline(
                [(14.1432501331, -23.5842845063), (13.2521943332, -22.7146263724), (13.0982095515, -13.1746630978), (1.6157105436, -20.6267061955), (4.4847390271, -7.0891535041), (-9.2885988345, -15.6909368722), (-4.476346097, -1.795783615), (-15.6592323471, -7.7152789824), (-11.9659993167, 2.3717521752), (-20.4540016175, -1.9214870372), (-19.8244433451, 5.3932645249), (-26.3514434193, 3.1317771546), (-27.2699888997, 3.5493246411)],
                knots=[0, 0, 0, 0, 0.0520887019, 0.1037762726, 0.1529096928, 0.2076377013, 0.2577406222, 0.305008764, 0.3479574651, 0.391107177, 0.4299547675, 0.4768041689, 0.4768041689, 0.4768041689, 0.4768041689], degree=3))
        make_face()
    extrude(amount=F1_DEPTH, both=True)


solid = Compound([f1.part, f1b.part, f1c.part])
